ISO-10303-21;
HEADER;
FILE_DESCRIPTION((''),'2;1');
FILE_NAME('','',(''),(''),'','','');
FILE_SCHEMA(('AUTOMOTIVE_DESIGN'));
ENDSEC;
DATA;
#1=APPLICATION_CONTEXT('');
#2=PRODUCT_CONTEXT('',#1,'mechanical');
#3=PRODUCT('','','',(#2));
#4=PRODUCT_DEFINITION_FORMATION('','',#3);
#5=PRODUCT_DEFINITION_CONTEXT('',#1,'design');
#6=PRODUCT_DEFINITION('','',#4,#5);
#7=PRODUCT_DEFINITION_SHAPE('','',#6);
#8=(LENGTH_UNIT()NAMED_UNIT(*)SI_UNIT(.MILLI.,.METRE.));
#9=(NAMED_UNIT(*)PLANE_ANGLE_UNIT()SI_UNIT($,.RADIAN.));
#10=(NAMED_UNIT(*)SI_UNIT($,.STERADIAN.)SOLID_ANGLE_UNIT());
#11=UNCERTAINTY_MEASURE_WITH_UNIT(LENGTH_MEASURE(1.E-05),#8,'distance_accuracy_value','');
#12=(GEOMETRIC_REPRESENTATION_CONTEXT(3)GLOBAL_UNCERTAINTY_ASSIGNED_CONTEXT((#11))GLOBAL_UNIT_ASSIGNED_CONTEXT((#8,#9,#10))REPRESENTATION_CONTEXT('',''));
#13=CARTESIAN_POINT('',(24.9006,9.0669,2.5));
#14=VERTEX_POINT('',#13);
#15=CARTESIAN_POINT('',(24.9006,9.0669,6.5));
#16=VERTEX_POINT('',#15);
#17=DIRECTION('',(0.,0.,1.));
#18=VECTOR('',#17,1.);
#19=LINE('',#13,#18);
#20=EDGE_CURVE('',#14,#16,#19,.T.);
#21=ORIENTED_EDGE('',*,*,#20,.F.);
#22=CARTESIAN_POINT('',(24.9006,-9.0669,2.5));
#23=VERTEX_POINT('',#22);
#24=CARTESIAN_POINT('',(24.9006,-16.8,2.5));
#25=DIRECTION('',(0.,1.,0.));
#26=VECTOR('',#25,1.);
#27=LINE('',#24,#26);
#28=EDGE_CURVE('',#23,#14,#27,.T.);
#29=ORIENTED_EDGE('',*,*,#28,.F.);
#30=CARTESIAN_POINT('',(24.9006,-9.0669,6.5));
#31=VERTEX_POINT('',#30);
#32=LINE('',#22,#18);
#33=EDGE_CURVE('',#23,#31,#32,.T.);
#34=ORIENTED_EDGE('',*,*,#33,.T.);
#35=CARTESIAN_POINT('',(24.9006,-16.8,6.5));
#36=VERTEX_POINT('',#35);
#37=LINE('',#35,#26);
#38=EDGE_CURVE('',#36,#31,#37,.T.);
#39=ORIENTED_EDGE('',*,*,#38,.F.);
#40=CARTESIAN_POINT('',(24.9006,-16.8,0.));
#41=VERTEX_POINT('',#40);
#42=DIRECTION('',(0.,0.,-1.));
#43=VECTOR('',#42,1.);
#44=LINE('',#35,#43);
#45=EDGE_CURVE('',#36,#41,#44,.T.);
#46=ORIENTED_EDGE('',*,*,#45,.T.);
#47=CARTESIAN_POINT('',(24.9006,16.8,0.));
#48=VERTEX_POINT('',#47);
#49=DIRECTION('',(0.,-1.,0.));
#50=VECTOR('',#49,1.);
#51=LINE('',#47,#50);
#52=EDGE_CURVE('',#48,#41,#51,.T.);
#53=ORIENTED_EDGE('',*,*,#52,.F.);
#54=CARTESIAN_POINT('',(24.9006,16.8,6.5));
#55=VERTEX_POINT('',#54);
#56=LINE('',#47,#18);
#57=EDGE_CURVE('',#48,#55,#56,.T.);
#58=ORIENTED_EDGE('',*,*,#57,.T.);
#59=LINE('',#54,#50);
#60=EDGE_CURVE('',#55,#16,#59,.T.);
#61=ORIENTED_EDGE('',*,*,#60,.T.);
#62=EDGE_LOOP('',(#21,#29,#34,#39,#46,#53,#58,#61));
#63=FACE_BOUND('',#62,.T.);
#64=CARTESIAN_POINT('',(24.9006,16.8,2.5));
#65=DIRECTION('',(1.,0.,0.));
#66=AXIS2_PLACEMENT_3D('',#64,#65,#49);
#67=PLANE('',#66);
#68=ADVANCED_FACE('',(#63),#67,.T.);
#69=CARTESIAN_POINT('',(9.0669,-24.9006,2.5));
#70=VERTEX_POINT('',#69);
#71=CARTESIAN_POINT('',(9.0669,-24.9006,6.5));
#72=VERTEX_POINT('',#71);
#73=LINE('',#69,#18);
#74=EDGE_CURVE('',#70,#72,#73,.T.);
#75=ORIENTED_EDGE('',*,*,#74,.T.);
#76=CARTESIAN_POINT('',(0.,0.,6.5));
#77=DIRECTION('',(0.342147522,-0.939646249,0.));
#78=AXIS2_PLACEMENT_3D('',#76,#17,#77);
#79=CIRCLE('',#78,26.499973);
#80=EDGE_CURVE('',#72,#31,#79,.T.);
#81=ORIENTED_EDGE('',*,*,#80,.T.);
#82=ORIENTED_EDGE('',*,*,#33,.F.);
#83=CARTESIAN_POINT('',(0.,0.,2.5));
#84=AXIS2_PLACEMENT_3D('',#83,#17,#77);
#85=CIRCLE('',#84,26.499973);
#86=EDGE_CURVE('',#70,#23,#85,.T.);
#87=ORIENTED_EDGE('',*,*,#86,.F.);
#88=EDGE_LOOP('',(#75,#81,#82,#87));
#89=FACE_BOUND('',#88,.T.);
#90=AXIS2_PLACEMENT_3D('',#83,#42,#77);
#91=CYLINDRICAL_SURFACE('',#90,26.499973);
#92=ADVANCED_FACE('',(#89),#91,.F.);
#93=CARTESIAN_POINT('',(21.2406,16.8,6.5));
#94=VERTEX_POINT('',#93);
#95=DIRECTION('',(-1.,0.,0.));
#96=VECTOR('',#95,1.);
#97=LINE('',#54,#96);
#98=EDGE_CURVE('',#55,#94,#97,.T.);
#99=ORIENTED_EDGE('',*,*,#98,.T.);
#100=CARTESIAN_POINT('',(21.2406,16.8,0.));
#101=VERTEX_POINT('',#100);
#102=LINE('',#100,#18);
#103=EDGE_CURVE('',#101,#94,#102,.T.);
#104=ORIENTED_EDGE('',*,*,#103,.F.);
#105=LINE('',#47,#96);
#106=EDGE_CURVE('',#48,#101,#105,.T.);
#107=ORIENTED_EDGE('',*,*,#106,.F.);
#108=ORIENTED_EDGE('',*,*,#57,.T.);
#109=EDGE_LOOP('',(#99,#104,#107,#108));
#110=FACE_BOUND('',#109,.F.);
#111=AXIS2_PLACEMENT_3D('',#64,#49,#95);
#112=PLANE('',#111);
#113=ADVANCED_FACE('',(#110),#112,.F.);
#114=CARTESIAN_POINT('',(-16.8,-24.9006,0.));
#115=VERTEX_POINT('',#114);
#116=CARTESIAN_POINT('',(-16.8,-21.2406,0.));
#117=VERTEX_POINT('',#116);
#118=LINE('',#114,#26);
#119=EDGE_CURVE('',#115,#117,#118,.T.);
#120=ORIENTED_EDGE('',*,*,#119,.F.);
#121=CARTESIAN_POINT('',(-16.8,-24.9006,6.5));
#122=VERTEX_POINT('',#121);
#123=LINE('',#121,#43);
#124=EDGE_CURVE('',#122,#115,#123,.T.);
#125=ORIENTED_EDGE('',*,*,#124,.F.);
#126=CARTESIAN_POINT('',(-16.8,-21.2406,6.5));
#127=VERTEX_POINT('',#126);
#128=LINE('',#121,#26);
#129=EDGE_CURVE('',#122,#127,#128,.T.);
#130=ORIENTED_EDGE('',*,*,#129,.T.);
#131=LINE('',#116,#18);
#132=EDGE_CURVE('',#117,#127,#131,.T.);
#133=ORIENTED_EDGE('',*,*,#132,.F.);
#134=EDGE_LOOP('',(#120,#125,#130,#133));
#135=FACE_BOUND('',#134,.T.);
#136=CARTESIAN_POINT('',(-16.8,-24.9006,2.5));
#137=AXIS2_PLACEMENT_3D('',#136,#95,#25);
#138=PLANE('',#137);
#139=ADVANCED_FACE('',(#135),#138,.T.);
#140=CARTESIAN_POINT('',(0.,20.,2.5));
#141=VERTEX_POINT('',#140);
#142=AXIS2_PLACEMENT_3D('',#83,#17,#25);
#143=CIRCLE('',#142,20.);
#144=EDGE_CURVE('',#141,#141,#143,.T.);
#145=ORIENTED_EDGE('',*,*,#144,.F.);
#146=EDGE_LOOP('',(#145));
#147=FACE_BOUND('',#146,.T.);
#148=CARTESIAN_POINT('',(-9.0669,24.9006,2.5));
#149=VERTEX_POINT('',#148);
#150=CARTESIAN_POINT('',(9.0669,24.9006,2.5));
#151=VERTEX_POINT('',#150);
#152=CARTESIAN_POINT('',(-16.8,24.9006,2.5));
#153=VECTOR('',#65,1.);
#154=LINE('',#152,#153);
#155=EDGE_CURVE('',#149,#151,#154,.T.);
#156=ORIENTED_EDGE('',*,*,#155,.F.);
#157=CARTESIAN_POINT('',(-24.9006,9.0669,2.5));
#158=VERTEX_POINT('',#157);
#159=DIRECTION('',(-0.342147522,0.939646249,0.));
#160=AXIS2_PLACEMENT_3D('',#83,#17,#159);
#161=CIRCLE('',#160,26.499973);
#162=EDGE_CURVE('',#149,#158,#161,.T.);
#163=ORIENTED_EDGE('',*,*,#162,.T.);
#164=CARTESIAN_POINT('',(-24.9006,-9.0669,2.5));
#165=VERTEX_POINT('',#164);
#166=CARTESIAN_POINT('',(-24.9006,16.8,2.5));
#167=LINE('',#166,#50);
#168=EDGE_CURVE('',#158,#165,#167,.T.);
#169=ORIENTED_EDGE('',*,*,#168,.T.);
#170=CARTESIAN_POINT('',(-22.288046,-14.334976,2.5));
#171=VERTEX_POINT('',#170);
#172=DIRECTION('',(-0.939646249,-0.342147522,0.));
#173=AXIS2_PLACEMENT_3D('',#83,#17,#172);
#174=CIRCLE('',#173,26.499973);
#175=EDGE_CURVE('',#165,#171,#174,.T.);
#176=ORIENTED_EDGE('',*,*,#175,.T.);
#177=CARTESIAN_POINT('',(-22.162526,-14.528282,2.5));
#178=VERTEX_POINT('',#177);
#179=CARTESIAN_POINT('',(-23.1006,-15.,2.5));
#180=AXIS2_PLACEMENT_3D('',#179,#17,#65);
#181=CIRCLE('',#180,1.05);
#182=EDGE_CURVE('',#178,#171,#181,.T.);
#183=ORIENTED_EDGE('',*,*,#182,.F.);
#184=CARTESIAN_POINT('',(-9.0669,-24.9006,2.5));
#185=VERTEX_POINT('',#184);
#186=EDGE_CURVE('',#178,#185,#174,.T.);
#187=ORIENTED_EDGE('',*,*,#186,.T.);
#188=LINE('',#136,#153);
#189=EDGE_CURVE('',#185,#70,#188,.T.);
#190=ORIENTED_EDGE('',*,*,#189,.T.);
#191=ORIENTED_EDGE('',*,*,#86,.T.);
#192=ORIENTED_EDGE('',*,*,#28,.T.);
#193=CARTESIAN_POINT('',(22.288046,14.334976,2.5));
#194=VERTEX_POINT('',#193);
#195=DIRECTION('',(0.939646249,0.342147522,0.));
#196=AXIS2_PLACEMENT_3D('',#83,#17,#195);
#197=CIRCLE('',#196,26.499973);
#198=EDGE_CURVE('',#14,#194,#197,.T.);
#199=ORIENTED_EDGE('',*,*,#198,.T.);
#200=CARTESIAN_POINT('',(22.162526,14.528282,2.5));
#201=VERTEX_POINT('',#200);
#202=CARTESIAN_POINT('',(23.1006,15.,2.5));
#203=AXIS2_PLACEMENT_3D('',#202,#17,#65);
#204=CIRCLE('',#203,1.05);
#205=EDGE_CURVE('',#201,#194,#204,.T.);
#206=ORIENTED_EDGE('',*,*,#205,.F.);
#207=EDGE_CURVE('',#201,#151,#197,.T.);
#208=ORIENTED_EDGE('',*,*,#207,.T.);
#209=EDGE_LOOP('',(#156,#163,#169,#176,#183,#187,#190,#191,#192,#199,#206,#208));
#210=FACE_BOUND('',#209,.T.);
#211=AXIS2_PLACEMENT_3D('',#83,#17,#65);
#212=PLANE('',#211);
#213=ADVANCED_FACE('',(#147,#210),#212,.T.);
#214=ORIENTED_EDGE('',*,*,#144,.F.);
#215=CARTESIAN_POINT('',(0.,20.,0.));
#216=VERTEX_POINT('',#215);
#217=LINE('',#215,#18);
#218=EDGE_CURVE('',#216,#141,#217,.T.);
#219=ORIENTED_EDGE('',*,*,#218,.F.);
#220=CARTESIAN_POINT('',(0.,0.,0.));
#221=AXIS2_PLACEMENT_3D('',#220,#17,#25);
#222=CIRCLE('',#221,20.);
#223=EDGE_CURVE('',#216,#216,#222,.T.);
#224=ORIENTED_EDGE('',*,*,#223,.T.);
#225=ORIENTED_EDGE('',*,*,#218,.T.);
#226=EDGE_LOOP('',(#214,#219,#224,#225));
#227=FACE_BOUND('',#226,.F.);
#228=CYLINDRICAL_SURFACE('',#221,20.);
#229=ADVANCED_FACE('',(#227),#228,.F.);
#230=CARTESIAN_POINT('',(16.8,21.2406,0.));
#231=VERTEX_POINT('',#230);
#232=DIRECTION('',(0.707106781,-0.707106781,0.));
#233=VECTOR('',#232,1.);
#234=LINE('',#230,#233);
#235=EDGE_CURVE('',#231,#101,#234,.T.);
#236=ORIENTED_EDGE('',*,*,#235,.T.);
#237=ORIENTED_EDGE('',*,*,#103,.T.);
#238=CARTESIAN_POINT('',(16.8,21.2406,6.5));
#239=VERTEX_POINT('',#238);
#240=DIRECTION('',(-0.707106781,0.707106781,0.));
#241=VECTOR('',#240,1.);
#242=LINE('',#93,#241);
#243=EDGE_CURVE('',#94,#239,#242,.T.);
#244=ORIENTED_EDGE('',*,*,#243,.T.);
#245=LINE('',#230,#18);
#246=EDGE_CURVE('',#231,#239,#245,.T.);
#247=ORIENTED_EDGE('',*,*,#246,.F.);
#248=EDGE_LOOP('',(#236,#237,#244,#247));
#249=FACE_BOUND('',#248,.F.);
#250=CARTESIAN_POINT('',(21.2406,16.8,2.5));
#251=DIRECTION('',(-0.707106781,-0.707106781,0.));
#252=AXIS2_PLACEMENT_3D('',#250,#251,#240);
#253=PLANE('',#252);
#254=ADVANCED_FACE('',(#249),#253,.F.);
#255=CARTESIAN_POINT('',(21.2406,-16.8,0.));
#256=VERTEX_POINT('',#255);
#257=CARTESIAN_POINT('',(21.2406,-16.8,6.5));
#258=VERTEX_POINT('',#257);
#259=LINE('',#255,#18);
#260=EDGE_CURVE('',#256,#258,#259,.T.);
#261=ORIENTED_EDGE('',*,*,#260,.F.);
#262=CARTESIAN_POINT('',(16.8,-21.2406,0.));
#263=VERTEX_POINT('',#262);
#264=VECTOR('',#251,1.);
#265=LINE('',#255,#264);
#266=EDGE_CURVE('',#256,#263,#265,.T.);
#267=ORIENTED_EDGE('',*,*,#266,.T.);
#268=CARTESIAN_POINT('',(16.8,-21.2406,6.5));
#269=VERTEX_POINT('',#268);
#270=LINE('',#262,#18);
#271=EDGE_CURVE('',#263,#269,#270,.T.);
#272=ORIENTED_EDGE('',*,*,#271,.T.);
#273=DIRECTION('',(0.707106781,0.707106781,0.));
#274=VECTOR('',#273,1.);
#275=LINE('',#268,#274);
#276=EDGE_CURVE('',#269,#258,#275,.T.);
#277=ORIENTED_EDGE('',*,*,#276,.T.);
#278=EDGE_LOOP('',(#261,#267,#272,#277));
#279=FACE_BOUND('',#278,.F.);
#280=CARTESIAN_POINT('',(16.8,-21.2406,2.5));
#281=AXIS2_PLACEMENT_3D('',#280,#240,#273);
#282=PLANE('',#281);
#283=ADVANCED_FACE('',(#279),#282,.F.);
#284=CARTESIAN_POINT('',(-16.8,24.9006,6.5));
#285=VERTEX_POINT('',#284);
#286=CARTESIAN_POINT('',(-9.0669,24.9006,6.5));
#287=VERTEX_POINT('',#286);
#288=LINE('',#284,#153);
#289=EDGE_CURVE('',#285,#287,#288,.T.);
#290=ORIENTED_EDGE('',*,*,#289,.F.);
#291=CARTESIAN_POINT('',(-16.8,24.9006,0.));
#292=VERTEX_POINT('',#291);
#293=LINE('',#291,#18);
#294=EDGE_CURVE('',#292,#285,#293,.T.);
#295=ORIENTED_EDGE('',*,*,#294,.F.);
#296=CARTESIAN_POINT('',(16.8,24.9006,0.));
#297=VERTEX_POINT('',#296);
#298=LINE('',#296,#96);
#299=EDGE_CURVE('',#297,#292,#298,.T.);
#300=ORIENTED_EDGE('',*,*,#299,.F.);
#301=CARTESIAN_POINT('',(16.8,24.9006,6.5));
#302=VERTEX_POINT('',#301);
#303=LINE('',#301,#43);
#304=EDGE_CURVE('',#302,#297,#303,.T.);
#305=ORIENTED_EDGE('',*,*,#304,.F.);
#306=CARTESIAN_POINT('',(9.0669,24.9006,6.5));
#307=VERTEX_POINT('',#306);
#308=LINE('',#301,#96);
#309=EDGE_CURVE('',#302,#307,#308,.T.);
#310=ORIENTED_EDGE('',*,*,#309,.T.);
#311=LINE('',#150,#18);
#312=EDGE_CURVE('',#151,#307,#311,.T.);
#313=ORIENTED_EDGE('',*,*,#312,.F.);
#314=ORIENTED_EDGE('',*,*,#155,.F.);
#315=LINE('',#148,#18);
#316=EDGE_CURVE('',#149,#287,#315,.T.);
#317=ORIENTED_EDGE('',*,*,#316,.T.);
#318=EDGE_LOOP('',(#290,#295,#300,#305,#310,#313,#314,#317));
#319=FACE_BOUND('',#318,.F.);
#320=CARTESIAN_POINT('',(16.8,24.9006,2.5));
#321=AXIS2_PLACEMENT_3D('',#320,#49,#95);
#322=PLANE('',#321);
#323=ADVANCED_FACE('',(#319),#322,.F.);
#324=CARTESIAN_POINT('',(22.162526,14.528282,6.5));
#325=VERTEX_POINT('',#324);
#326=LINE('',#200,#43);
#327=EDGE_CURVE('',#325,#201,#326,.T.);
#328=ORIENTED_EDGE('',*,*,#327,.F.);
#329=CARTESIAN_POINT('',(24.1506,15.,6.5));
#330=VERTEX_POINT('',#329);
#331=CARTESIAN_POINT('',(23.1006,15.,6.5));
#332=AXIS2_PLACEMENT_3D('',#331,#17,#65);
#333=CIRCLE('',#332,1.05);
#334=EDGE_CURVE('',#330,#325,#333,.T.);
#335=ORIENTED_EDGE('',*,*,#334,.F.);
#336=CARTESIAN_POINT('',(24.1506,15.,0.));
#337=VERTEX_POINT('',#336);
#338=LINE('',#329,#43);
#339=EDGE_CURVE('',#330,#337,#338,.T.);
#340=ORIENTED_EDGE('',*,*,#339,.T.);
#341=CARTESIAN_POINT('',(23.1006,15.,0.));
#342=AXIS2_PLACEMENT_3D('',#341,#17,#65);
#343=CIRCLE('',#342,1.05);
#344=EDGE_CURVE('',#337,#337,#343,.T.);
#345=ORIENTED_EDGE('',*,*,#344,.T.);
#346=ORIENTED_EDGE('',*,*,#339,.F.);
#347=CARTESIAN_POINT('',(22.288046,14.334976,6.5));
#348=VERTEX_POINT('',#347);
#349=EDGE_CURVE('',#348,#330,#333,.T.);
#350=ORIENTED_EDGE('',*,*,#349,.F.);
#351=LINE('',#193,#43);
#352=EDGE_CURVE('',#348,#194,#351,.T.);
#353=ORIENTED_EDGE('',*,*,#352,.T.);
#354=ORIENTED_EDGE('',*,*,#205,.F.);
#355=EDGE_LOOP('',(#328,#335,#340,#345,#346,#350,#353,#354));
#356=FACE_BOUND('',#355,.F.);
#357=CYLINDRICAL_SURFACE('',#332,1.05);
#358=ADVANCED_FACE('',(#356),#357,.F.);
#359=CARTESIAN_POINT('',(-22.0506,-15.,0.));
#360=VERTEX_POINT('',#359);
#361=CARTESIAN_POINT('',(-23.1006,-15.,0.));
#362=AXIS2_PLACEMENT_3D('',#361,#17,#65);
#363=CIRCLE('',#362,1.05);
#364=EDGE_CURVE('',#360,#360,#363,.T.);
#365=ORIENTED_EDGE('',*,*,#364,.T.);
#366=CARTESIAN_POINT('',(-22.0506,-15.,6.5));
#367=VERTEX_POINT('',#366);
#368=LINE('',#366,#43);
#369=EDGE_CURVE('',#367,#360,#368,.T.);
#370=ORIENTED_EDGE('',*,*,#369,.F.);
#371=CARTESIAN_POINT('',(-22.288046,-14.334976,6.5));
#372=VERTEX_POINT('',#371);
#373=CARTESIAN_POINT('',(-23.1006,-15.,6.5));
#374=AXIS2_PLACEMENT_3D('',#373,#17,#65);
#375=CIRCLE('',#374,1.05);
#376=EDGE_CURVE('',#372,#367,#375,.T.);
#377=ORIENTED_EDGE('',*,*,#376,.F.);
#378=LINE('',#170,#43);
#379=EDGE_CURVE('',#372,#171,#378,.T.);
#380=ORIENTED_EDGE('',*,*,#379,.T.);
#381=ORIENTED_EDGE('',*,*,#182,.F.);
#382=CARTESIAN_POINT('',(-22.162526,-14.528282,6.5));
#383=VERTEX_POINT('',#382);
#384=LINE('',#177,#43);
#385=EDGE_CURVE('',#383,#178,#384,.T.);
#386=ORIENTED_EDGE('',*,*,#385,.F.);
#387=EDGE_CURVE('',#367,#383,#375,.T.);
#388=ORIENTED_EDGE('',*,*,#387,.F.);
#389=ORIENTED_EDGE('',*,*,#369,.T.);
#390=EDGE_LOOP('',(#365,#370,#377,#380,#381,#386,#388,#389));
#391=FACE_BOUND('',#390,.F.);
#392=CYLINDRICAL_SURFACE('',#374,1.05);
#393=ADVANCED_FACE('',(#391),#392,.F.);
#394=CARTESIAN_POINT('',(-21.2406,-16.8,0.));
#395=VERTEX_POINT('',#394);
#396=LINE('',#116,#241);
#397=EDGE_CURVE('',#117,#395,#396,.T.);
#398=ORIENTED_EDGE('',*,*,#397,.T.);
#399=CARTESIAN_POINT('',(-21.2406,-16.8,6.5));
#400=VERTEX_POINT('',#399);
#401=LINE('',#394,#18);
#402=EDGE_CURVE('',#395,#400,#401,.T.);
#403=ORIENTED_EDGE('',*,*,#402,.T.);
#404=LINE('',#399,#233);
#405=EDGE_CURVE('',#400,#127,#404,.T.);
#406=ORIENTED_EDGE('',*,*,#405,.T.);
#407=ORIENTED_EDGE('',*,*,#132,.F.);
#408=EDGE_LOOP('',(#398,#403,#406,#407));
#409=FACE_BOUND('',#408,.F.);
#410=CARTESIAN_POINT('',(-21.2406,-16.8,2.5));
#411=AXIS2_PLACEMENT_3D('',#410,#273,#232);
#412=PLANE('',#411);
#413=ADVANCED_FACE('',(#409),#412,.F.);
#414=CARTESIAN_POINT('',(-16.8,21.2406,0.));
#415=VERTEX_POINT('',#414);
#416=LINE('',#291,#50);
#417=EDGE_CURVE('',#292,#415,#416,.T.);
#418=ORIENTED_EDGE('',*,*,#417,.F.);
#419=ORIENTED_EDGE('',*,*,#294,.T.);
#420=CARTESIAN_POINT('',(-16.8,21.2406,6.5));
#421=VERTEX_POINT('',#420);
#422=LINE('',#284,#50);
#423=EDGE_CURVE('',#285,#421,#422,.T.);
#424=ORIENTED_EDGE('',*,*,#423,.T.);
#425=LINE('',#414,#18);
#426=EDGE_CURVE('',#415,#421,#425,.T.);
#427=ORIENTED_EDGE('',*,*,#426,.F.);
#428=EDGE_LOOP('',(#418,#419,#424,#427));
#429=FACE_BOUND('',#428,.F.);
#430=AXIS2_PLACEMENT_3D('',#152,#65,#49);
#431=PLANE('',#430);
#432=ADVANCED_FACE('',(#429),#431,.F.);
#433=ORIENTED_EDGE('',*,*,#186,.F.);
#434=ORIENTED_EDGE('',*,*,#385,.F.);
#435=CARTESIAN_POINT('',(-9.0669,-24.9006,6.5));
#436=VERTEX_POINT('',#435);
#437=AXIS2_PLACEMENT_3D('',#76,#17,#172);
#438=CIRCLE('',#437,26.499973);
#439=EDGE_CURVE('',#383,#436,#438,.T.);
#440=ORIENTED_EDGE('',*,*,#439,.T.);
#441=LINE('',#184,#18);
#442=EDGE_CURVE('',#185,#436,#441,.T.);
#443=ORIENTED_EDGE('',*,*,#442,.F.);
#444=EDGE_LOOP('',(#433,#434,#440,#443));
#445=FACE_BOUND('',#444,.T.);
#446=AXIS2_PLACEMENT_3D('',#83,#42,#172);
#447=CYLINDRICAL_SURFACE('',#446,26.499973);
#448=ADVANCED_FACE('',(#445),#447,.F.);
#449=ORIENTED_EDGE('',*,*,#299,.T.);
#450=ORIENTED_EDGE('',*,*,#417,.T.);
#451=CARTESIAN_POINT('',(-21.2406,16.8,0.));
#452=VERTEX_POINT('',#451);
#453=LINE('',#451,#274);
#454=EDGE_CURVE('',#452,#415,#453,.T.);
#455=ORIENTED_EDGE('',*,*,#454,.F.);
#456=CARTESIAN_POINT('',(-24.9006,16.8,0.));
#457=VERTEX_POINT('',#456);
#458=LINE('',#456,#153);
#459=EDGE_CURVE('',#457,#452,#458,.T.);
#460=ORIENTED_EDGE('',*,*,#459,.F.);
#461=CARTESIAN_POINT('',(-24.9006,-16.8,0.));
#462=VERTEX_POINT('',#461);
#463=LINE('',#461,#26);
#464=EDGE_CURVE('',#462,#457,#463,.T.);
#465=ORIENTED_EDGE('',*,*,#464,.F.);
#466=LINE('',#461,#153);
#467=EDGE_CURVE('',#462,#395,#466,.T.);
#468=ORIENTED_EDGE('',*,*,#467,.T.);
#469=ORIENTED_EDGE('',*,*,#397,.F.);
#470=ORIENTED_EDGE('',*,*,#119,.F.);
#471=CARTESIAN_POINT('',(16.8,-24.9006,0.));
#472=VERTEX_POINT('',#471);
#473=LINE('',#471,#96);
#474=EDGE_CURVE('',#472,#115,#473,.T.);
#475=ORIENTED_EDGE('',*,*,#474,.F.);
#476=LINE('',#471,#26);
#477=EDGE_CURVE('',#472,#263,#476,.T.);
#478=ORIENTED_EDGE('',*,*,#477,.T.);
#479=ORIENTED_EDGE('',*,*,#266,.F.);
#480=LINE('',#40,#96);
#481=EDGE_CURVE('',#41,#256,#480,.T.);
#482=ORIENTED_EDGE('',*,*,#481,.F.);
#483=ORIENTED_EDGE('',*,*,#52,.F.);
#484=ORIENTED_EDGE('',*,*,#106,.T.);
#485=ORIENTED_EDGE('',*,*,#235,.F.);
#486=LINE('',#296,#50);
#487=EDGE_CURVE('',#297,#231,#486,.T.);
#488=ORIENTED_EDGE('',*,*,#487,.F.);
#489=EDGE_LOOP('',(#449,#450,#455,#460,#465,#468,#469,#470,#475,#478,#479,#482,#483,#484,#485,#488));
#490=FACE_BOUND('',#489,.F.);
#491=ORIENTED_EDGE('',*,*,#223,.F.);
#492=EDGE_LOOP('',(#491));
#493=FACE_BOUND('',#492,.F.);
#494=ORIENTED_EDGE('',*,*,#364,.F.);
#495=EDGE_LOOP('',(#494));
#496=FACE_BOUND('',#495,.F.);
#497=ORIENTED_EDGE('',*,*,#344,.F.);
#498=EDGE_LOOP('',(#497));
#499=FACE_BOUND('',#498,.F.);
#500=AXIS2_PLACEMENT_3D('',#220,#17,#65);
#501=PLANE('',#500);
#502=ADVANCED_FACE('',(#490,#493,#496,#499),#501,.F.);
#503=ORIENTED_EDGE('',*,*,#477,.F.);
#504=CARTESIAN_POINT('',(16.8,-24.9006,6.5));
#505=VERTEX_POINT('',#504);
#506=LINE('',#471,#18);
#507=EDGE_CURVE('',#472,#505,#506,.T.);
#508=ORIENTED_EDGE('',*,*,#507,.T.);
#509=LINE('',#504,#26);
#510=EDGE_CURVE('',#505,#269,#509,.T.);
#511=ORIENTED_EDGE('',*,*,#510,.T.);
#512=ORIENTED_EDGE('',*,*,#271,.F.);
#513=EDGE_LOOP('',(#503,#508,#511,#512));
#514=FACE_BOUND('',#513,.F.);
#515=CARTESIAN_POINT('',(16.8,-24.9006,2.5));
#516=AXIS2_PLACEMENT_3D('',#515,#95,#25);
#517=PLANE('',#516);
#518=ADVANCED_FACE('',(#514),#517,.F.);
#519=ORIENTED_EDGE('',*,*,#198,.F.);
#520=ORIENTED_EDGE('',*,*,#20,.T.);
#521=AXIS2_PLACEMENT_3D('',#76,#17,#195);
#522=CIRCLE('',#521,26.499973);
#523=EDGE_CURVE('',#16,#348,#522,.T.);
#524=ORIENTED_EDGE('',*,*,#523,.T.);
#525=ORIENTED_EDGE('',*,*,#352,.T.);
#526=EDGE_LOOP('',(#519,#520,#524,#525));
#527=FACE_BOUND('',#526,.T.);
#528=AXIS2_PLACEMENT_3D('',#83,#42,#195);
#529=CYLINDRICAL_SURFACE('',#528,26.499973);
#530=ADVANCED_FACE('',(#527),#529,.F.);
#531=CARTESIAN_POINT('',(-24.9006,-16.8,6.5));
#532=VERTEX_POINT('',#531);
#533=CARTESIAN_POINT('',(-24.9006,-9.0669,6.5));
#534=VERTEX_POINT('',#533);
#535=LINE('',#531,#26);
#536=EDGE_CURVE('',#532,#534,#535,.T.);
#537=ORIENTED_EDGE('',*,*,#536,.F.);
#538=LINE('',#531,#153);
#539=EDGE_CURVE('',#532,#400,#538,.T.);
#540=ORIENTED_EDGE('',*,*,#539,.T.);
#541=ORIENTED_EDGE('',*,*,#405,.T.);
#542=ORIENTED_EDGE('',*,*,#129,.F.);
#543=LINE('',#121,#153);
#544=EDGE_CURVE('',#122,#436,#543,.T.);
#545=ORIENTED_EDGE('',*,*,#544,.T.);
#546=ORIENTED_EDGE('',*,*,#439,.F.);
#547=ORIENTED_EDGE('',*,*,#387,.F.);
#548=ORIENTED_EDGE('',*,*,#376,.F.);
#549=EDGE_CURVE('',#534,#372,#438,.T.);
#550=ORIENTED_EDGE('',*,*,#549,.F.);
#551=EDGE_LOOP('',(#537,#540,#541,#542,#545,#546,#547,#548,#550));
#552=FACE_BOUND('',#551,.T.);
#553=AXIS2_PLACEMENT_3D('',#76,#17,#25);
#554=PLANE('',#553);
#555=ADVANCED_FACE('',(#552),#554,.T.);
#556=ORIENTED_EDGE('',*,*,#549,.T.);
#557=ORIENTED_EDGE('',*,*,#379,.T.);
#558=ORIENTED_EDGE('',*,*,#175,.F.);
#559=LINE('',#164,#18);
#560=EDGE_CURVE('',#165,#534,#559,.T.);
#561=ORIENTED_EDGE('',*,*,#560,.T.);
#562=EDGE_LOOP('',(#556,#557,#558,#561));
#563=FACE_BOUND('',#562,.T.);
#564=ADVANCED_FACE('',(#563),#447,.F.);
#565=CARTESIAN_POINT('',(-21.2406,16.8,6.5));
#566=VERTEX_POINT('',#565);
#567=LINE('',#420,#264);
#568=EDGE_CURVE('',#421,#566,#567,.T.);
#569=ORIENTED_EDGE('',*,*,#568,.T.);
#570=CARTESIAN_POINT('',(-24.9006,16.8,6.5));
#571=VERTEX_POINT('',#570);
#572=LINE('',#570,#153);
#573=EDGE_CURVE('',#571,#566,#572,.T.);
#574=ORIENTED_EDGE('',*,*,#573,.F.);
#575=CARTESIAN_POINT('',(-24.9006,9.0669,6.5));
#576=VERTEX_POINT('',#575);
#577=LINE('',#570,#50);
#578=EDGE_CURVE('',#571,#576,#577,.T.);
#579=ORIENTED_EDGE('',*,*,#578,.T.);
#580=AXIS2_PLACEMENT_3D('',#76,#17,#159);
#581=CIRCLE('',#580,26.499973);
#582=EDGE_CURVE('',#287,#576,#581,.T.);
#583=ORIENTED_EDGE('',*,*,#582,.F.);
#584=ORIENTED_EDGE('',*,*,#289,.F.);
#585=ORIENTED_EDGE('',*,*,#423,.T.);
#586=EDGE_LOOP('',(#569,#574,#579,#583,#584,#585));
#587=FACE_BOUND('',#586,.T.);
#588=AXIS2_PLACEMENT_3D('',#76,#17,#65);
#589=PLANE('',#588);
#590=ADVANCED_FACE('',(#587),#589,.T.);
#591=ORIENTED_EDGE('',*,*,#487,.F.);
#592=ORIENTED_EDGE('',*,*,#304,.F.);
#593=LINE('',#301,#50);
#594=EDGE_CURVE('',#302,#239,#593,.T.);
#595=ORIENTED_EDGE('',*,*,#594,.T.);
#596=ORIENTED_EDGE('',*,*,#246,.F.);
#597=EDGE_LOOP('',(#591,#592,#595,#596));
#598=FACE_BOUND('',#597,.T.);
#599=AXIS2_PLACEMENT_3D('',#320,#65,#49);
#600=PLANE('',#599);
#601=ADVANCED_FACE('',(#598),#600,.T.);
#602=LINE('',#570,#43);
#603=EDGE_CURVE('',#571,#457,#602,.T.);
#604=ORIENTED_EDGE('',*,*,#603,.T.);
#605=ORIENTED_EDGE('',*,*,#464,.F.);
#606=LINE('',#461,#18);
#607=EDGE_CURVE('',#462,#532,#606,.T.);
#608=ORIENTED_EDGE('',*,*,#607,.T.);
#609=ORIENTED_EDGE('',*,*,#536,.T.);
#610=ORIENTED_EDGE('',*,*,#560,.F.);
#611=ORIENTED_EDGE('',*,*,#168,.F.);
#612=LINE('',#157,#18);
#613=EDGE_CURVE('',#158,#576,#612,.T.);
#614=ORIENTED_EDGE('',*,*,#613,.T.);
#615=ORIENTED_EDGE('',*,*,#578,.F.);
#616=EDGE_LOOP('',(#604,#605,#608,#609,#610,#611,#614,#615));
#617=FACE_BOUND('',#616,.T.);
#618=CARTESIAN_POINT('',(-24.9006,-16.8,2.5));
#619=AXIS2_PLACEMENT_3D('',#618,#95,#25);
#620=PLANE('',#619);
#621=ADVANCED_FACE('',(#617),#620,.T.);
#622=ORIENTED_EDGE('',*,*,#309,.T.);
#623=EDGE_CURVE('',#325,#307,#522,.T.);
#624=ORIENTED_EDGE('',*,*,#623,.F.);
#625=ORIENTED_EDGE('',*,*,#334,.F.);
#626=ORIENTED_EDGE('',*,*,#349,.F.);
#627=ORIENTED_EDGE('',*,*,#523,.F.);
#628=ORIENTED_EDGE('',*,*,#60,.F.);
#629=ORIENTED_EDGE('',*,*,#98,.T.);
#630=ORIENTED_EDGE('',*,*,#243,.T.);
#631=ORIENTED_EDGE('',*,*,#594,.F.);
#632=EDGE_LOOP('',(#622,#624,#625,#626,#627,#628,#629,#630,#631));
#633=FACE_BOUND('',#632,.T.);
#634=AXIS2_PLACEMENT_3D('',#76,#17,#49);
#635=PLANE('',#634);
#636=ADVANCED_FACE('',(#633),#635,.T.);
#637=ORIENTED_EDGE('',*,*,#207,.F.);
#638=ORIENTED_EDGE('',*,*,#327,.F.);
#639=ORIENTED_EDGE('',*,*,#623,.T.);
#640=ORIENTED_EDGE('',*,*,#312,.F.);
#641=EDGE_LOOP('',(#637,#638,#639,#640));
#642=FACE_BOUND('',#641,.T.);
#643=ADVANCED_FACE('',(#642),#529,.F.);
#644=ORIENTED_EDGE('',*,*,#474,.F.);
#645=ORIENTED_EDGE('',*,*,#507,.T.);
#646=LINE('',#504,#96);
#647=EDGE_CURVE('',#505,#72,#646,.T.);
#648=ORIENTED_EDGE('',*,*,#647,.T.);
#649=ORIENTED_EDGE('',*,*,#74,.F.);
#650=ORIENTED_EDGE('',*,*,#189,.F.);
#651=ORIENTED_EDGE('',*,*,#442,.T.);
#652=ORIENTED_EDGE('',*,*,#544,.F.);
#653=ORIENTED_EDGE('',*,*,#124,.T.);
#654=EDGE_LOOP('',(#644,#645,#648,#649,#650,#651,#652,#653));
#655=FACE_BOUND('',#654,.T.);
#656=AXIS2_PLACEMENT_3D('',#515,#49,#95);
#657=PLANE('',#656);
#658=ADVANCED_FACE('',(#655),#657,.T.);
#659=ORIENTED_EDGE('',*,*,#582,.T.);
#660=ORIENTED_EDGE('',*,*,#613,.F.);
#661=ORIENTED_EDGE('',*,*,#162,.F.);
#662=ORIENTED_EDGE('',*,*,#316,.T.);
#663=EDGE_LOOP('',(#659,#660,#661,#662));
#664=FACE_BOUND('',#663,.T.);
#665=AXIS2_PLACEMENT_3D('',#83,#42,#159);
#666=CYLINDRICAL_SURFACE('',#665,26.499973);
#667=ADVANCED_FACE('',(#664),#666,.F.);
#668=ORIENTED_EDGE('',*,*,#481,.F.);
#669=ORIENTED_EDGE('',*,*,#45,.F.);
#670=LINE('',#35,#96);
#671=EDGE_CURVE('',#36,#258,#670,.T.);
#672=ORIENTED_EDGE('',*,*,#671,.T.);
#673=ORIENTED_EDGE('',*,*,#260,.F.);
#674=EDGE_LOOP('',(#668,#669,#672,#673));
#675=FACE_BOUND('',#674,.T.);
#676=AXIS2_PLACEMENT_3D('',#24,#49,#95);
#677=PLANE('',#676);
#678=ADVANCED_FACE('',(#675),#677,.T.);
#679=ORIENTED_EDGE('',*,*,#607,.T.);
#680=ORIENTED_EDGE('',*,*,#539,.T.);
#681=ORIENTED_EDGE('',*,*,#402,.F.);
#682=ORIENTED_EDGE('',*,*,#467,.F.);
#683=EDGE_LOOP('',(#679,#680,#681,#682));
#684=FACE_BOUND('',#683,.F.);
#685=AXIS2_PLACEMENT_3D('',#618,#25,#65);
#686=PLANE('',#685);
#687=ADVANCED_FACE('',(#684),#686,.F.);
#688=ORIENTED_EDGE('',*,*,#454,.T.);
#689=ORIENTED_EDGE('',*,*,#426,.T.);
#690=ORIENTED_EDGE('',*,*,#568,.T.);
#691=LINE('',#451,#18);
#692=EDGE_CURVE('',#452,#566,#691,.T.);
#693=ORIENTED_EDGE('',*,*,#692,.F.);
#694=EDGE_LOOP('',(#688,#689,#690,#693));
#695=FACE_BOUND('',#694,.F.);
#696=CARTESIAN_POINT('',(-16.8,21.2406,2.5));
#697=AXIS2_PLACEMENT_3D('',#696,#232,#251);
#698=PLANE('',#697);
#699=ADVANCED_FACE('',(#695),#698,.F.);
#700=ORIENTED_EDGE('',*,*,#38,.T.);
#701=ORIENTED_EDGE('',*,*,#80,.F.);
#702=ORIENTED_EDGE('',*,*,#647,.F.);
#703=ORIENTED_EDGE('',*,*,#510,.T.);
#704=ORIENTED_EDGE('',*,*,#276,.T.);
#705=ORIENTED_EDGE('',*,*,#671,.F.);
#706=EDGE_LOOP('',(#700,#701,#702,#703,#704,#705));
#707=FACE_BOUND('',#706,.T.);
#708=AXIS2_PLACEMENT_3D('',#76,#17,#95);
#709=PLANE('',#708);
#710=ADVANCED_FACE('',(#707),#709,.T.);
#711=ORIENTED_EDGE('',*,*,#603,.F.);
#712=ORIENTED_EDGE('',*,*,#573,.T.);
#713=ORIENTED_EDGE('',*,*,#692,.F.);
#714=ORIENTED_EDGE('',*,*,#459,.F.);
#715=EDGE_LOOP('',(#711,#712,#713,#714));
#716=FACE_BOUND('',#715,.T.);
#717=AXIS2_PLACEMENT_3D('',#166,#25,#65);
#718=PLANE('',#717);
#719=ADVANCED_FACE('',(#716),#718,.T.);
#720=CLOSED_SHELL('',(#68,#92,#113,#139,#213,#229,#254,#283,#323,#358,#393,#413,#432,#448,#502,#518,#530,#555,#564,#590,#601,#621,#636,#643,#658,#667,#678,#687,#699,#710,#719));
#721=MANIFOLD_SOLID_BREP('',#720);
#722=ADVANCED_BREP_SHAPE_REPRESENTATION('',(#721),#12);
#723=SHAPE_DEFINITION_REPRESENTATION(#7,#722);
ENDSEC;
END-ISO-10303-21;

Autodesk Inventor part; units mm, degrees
ref_plane "YZ Plane" through (0, 0, 0) normal (1, 0, 0) x (0, 1, 0)
ref_plane "XZ Plane" through (0, 0, 0) normal (0, 1, 0) x (-1, 0, 0)
ref_plane "XY Plane" through (0, 0, 0) normal (0, 0, 1) x (1, 0, 0)
sketch "Sketch1" plane through (0, 0, 0) normal (0, 0, 1) x (1, 0, 0)
  line L0 (-34.8609, 0) -> (34.8609, 0) construction
  line L1 (0, -34.8609) -> (0, 34.8609) construction
  line L2 (0, 0) -> (11.6542, 11.6542) construction
  line L3 (0, 0) -> (16.4815, 0) construction
  line L4 (0, 24.9006) -> (16.8, 24.9006)
  line L5 (16.8, 24.9006) -> (16.8, 21.2406)
  line L6 (16.8, 21.2406) -> (19.0203, 19.0203)
  line L7 (24.9006, 0) -> (24.9006, 16.8)
  line L8 (24.9006, 16.8) -> (21.2406, 16.8)
  line L9 (21.2406, 16.8) -> (19.0203, 19.0203)
  line L10 (0, 0) -> (-11.6542, 11.6542) construction
  line L11 (0, 0) -> (-16.4815, 0) construction
  line L12 (0, 24.9006) -> (-16.8, 24.9006)
  line L13 (-16.8, 24.9006) -> (-16.8, 21.2406)
  line L14 (-16.8, 21.2406) -> (-19.0203, 19.0203)
  line L15 (-24.9006, 0) -> (-24.9006, 16.8)
  line L16 (-24.9006, 16.8) -> (-21.2406, 16.8)
  line L17 (-21.2406, 16.8) -> (-19.0203, 19.0203)
  line L18 (0, 0) -> (11.6542, -11.6542) construction
  line L19 (0, -24.9006) -> (16.8, -24.9006)
  line L20 (16.8, -24.9006) -> (16.8, -21.2406)
  line L21 (16.8, -21.2406) -> (19.0203, -19.0203)
  line L22 (24.9006, 0) -> (24.9006, -16.8)
  line L23 (24.9006, -16.8) -> (21.2406, -16.8)
  line L24 (21.2406, -16.8) -> (19.0203, -19.0203)
  line L25 (0, 0) -> (-11.6542, -11.6542) construction
  line L26 (0, -24.9006) -> (-16.8, -24.9006)
  line L27 (-16.8, -24.9006) -> (-16.8, -21.2406)
  line L28 (-16.8, -21.2406) -> (-19.0203, -19.0203)
  line L29 (-24.9006, 0) -> (-24.9006, -16.8)
  line L30 (-24.9006, -16.8) -> (-21.2406, -16.8)
  line L31 (-21.2406, -16.8) -> (-19.0203, -19.0203)
  dimension "d0" = 45
  dimension "d1" = 3.14
  dimension "d2" = 3.66
  dimension "d3" = 16.8
extrude "Extrusion1" add sketch "Sketch1" along normal blind 2.5
hole "Hole1" at (0, 0, 0) direction (0, 0, 1) diameter 40 end through all
sketch "Sketch5" plane through (0, 0, 2.5) normal (0, 0, 1) x (1, 0, 0)
  circle A0 centre (-22.1796, -5.0624) radius 1.25 construction
  circle A1 centre (-17.7867, 14.1844) radius 1.25 construction
  circle A2 centre (0, 22.75) radius 1.25 construction
  arc A3 (5.9445, 23.5204) -> (2.0147, 24.1761) centre (3.9503, 23.6727) ccw construction
  line L0 (2.0147, 24.1761) -> (2, 24) construction
  arc A4 (2, 24) -> (1.9973, 24.1039) centre (0, 24) ccw construction
  arc A5 (1.9973, 24.1039) -> (1.9775, 24.0019) centre (3.9503, 23.6727) ccw construction
  line L1 (1.9775, 24.0019) -> (1.9921, 24.178) construction
  arc A6 (1.9921, 24.178) -> (-1.9921, 24.178) centre (0, 24) ccw construction
  line L2 (-1.9921, 24.178) -> (-1.9775, 24.0019) construction
  arc A7 (-1.9775, 24.0019) -> (-1.9973, 24.1039) centre (-3.9503, 23.6727) ccw construction
  arc A8 (-1.9973, 24.1039) -> (-2, 24) centre (0, 24) ccw construction
  line L3 (-2, 24) -> (-2.0147, 24.1761) construction
  arc A9 (-2.0147, 24.1761) -> (-5.9445, 23.5204) centre (-3.9503, 23.6727) ccw construction
  line L4 (-5.9445, 23.5204) -> (-5.9012, 23.349) construction
  arc A10 (-5.9012, 23.349) -> (-5.9374, 23.4464) centre (-7.7928, 22.6996) ccw construction
  arc A11 (-5.9374, 23.4464) -> (-5.923, 23.3435) centre (-3.9503, 23.6727) ccw construction
  line L5 (-5.923, 23.3435) -> (-5.9665, 23.5148) construction
  arc A12 (-5.9665, 23.5148) -> (-9.7347, 22.2212) centre (-7.7928, 22.6996) ccw construction
  line L6 (-9.7347, 22.2212) -> (-9.6638, 22.0593) construction
  arc A13 (-9.6638, 22.0593) -> (-9.7156, 22.1493) centre (-11.4227, 21.1074) ccw construction
  arc A14 (-9.7156, 22.1493) -> (-9.6844, 22.0502) centre (-7.7928, 22.6996) ccw construction
  line L7 (-9.6844, 22.0502) -> (-9.7555, 22.212) construction
  arc A15 (-9.7555, 22.212) -> (-13.2594, 20.3158) centre (-11.4227, 21.1074) ccw construction
  line L8 (-13.2594, 20.3158) -> (-13.1628, 20.1678) construction
  arc A16 (-13.1628, 20.1678) -> (-13.2287, 20.2481) centre (-14.7411, 18.9394) ccw construction
  arc A17 (-13.2287, 20.2481) -> (-13.1817, 20.1555) centre (-11.4227, 21.1074) ccw construction
  line L9 (-13.1817, 20.1555) -> (-13.2784, 20.3034) construction
  arc A18 (-13.2784, 20.3034) -> (-16.4225, 17.8563) centre (-14.7411, 18.9394) ccw construction
  line L10 (-16.4225, 17.8563) -> (-16.3028, 17.7262) construction
  arc A19 (-16.3028, 17.7262) -> (-16.381, 17.7946) centre (-17.6574, 16.2548) ccw construction
  arc A20 (-16.381, 17.7946) -> (-16.3194, 17.7109) centre (-14.7411, 18.9394) ccw construction
  line L11 (-16.3194, 17.7109) -> (-16.4392, 17.8409) construction
  arc A21 (-16.4392, 17.8409) -> (-19.1375, 14.9097) centre (-17.6574, 16.2548) ccw construction
  line L12 (-19.1375, 14.9097) -> (-18.9981, 14.8011) construction
  arc A22 (-18.9981, 14.8011) -> (-19.0865, 14.8556) centre (-20.092, 13.1268) ccw construction
  arc A23 (-19.0865, 14.8556) -> (-19.0119, 14.7833) centre (-17.6574, 16.2548) ccw construction
  line L13 (-19.0119, 14.7833) -> (-19.1515, 14.8918) construction
  arc A24 (-19.1515, 14.8918) -> (-21.3306, 11.5564) centre (-20.092, 13.1268) ccw construction
  line L14 (-21.3306, 11.5564) -> (-21.1752, 11.4722) construction
  arc A25 (-21.1752, 11.4722) -> (-21.2714, 11.5115) centre (-21.9786, 9.6407) ccw construction
  arc A26 (-21.2714, 11.5115) -> (-21.1859, 11.4524) centre (-20.092, 13.1268) ccw construction
  line L15 (-21.1859, 11.4524) -> (-21.3414, 11.5365) construction
  arc A27 (-21.3414, 11.5365) -> (-22.9418, 7.8879) centre (-21.9786, 9.6407) ccw construction
  line L16 (-22.9418, 7.8879) -> (-22.7746, 7.8305) construction
  arc A28 (-22.7746, 7.8305) -> (-22.876, 7.8533) centre (-23.2656, 5.8917) ccw construction
  arc A29 (-22.876, 7.8533) -> (-22.782, 7.8091) centre (-21.9786, 9.6407) ccw construction
  line L17 (-22.782, 7.8091) -> (-22.9492, 7.8665) construction
  arc A30 (-22.9492, 7.8665) -> (-23.9272, 4.0042) centre (-23.2656, 5.8917) ccw construction
  line L18 (-23.9272, 4.0042) -> (-23.7529, 3.9751) construction
  arc A31 (-23.7529, 3.9751) -> (-23.8566, 3.981) centre (-23.918, 1.9819) ccw construction
  arc A32 (-23.8566, 3.981) -> (-23.7566, 3.9529) centre (-23.2656, 5.8917) ccw construction
  line L19 (-23.7566, 3.9529) -> (-23.9309, 3.9819) construction
  arc A33 (-23.9309, 3.9819) -> (-24.2599, 0.0113) centre (-23.918, 1.9819) ccw construction
  line L20 (-24.2599, 0.0113) -> (-24.0832, 0.0113) construction
  arc A34 (-24.0832, 0.0113) -> (-24.1865, 0) centre (-23.918, -1.9819) ccw construction
  arc A35 (-24.1865, 0) -> (-24.0832, -0.0113) centre (-23.918, 1.9819) ccw construction
  line L21 (-24.0832, -0.0113) -> (-24.2599, -0.0113) construction
  arc A36 (-24.2599, -0.0113) -> (-23.9309, -3.9819) centre (-23.918, -1.9819) ccw construction
  line L22 (-23.9309, -3.9819) -> (-23.7566, -3.9529) construction
  arc A37 (-23.7566, -3.9529) -> (-23.8566, -3.981) centre (-23.2656, -5.8917) ccw construction
  arc A38 (-23.8566, -3.981) -> (-23.7529, -3.9751) centre (-23.918, -1.9819) ccw construction
  line L23 (-23.7529, -3.9751) -> (-23.9272, -4.0042) construction
  arc A39 (-23.9272, -4.0042) -> (-22.9492, -7.8665) centre (-23.2656, -5.8917) ccw construction
  line L24 (-22.9492, -7.8665) -> (-22.782, -7.8091) construction
  arc A40 (-22.782, -7.8091) -> (-22.876, -7.8533) centre (-21.9786, -9.6407) ccw construction
  arc A41 (-22.876, -7.8533) -> (-22.7746, -7.8305) centre (-23.2656, -5.8917) ccw construction
  line L25 (-22.7746, -7.8305) -> (-22.9418, -7.8879) construction
  arc A42 (-22.9418, -7.8879) -> (-21.3414, -11.5365) centre (-21.9786, -9.6407) ccw construction
  line L26 (-21.3414, -11.5365) -> (-21.1859, -11.4524) construction
  arc A43 (-21.1859, -11.4524) -> (-21.2714, -11.5115) centre (-20.092, -13.1268) ccw construction
  arc A44 (-21.2714, -11.5115) -> (-21.1752, -11.4722) centre (-21.9786, -9.6407) ccw construction
  line L27 (-21.1752, -11.4722) -> (-21.3306, -11.5564) construction
  arc A45 (-21.3306, -11.5564) -> (-19.1515, -14.8918) centre (-20.092, -13.1268) ccw construction
  line L28 (-19.1515, -14.8918) -> (-19.0119, -14.7833) construction
  arc A46 (-19.0119, -14.7833) -> (-19.0865, -14.8556) centre (-17.6574, -16.2548) ccw construction
  arc A47 (-19.0865, -14.8556) -> (-18.9981, -14.8011) centre (-20.092, -13.1268) ccw construction
  line L29 (-18.9981, -14.8011) -> (-19.1375, -14.9097) construction
  arc A48 (-19.1375, -14.9097) -> (-16.4392, -17.8409) centre (-17.6574, -16.2548) ccw construction
  line L30 (-16.4392, -17.8409) -> (-16.3194, -17.7109) construction
  arc A49 (-16.3194, -17.7109) -> (-16.381, -17.7946) centre (-14.7411, -18.9394) ccw construction
  arc A50 (-16.381, -17.7946) -> (-16.3028, -17.7262) centre (-17.6574, -16.2548) ccw construction
  line L31 (-16.3028, -17.7262) -> (-16.4225, -17.8563) construction
  arc A51 (-16.4225, -17.8563) -> (-13.2784, -20.3034) centre (-14.7411, -18.9394) ccw construction
  line L32 (-13.2784, -20.3034) -> (-13.1817, -20.1555) construction
  arc A52 (-13.1817, -20.1555) -> (-13.2287, -20.2481) centre (-11.4227, -21.1074) ccw construction
  arc A53 (-13.2287, -20.2481) -> (-13.1628, -20.1678) centre (-14.7411, -18.9394) ccw construction
  line L33 (-13.1628, -20.1678) -> (-13.2594, -20.3158) construction
  arc A54 (-13.2594, -20.3158) -> (-9.7555, -22.212) centre (-11.4227, -21.1074) ccw construction
  line L34 (-9.7555, -22.212) -> (-9.6844, -22.0502) construction
  arc A55 (-9.6844, -22.0502) -> (-9.7156, -22.1493) centre (-7.7928, -22.6996) ccw construction
  arc A56 (-9.7156, -22.1493) -> (-9.6638, -22.0593) centre (-11.4227, -21.1074) ccw construction
  line L35 (-9.6638, -22.0593) -> (-9.7347, -22.2212) construction
  arc A57 (-9.7347, -22.2212) -> (-5.9665, -23.5148) centre (-7.7928, -22.6996) ccw construction
  line L36 (-5.9665, -23.5148) -> (-5.923, -23.3435) construction
  arc A58 (-5.923, -23.3435) -> (-5.9374, -23.4464) centre (-3.9503, -23.6727) ccw construction
  arc A59 (-5.9374, -23.4464) -> (-5.9012, -23.349) centre (-7.7928, -22.6996) ccw construction
  line L37 (-5.9012, -23.349) -> (-5.9445, -23.5204) construction
  arc A60 (-5.9445, -23.5204) -> (-2.0147, -24.1761) centre (-3.9503, -23.6727) ccw construction
  line L38 (-2.0147, -24.1761) -> (-2, -24) construction
  arc A61 (-2, -24) -> (-1.9973, -24.1039) centre (0, -24) ccw construction
  arc A62 (-1.9973, -24.1039) -> (-1.9775, -24.0019) centre (-3.9503, -23.6727) ccw construction
  line L39 (-1.9775, -24.0019) -> (-1.9921, -24.178) construction
  arc A63 (-1.9921, -24.178) -> (1.9921, -24.178) centre (0, -24) ccw construction
  line L40 (1.9921, -24.178) -> (1.9775, -24.0019) construction
  arc A64 (1.9775, -24.0019) -> (1.9973, -24.1039) centre (3.9503, -23.6727) ccw construction
  arc A65 (1.9973, -24.1039) -> (2, -24) centre (0, -24) ccw construction
  line L41 (2, -24) -> (2.0147, -24.1761) construction
  arc A66 (2.0147, -24.1761) -> (5.9445, -23.5204) centre (3.9503, -23.6727) ccw construction
  line L42 (5.9445, -23.5204) -> (5.9012, -23.349) construction
  arc A67 (5.9012, -23.349) -> (5.9374, -23.4464) centre (7.7928, -22.6996) ccw construction
  arc A68 (5.9374, -23.4464) -> (5.923, -23.3435) centre (3.9503, -23.6727) ccw construction
  line L43 (5.923, -23.3435) -> (5.9665, -23.5148) construction
  arc A69 (5.9665, -23.5148) -> (9.7347, -22.2212) centre (7.7928, -22.6996) ccw construction
  line L44 (9.7347, -22.2212) -> (9.6638, -22.0593) construction
  arc A70 (9.6638, -22.0593) -> (9.7156, -22.1493) centre (11.4227, -21.1074) ccw construction
  arc A71 (9.7156, -22.1493) -> (9.6844, -22.0502) centre (7.7928, -22.6996) ccw construction
  line L45 (9.6844, -22.0502) -> (9.7555, -22.212) construction
  arc A72 (9.7555, -22.212) -> (13.2594, -20.3158) centre (11.4227, -21.1074) ccw construction
  line L46 (13.2594, -20.3158) -> (13.1628, -20.1678) construction
  arc A73 (13.1628, -20.1678) -> (13.2287, -20.2481) centre (14.7411, -18.9394) ccw construction
  arc A74 (13.2287, -20.2481) -> (13.1817, -20.1555) centre (11.4227, -21.1074) ccw construction
  line L47 (13.1817, -20.1555) -> (13.2784, -20.3034) construction
  arc A75 (13.2784, -20.3034) -> (16.4225, -17.8563) centre (14.7411, -18.9394) ccw construction
  line L48 (16.4225, -17.8563) -> (16.3028, -17.7262) construction
  arc A76 (16.3028, -17.7262) -> (16.381, -17.7946) centre (17.6574, -16.2548) ccw construction
  arc A77 (16.381, -17.7946) -> (16.3194, -17.7109) centre (14.7411, -18.9394) ccw construction
  line L49 (16.3194, -17.7109) -> (16.4392, -17.8409) construction
  arc A78 (16.4392, -17.8409) -> (19.1375, -14.9097) centre (17.6574, -16.2548) ccw construction
  line L50 (19.1375, -14.9097) -> (18.9981, -14.8011) construction
  arc A79 (18.9981, -14.8011) -> (19.0865, -14.8556) centre (20.092, -13.1268) ccw construction
  arc A80 (19.0865, -14.8556) -> (19.0119, -14.7833) centre (17.6574, -16.2548) ccw construction
  line L51 (19.0119, -14.7833) -> (19.1515, -14.8918) construction
  arc A81 (19.1515, -14.8918) -> (21.3306, -11.5564) centre (20.092, -13.1268) ccw construction
  line L52 (21.3306, -11.5564) -> (21.1752, -11.4722) construction
  arc A82 (21.1752, -11.4722) -> (21.2714, -11.5115) centre (21.9786, -9.6407) ccw construction
  arc A83 (21.2714, -11.5115) -> (21.1859, -11.4524) centre (20.092, -13.1268) ccw construction
  line L53 (21.1859, -11.4524) -> (21.3414, -11.5365) construction
  arc A84 (21.3414, -11.5365) -> (22.9418, -7.8879) centre (21.9786, -9.6407) ccw construction
  line L54 (22.9418, -7.8879) -> (22.7746, -7.8305) construction
  arc A85 (22.7746, -7.8305) -> (22.876, -7.8533) centre (23.2656, -5.8917) ccw construction
  arc A86 (22.876, -7.8533) -> (22.782, -7.8091) centre (21.9786, -9.6407) ccw construction
  line L55 (22.782, -7.8091) -> (22.9492, -7.8665) construction
  arc A87 (22.9492, -7.8665) -> (23.9272, -4.0042) centre (23.2656, -5.8917) ccw construction
  line L56 (23.9272, -4.0042) -> (23.7529, -3.9751) construction
  arc A88 (23.7529, -3.9751) -> (23.8566, -3.981) centre (23.918, -1.9819) ccw construction
  arc A89 (23.8566, -3.981) -> (23.7566, -3.9529) centre (23.2656, -5.8917) ccw construction
  line L57 (23.7566, -3.9529) -> (23.9309, -3.9819) construction
  arc A90 (23.9309, -3.9819) -> (24.2599, -0.0113) centre (23.918, -1.9819) ccw construction
  line L58 (24.2599, -0.0113) -> (24.0832, -0.0113) construction
  arc A91 (24.0832, -0.0113) -> (24.1865, 0) centre (23.918, 1.9819) ccw construction
  arc A92 (24.1865, 0) -> (24.0832, 0.0113) centre (23.918, -1.9819) ccw construction
  line L59 (24.0832, 0.0113) -> (24.2599, 0.0113) construction
  arc A93 (24.2599, 0.0113) -> (23.9309, 3.9819) centre (23.918, 1.9819) ccw construction
  line L60 (23.9309, 3.9819) -> (23.7566, 3.9529) construction
  arc A94 (23.7566, 3.9529) -> (23.8566, 3.981) centre (23.2656, 5.8917) ccw construction
  arc A95 (23.8566, 3.981) -> (23.7529, 3.9751) centre (23.918, 1.9819) ccw construction
  line L61 (23.7529, 3.9751) -> (23.9272, 4.0042) construction
  arc A96 (23.9272, 4.0042) -> (22.9492, 7.8665) centre (23.2656, 5.8917) ccw construction
  line L62 (22.9492, 7.8665) -> (22.782, 7.8091) construction
  arc A97 (22.782, 7.8091) -> (22.876, 7.8533) centre (21.9786, 9.6407) ccw construction
  arc A98 (22.876, 7.8533) -> (22.7746, 7.8305) centre (23.2656, 5.8917) ccw construction
  line L63 (22.7746, 7.8305) -> (22.9418, 7.8879) construction
  arc A99 (22.9418, 7.8879) -> (21.3414, 11.5365) centre (21.9786, 9.6407) ccw construction
  line L64 (21.3414, 11.5365) -> (21.1859, 11.4524) construction
  arc A100 (21.1859, 11.4524) -> (21.2714, 11.5115) centre (20.092, 13.1268) ccw construction
  arc A101 (21.2714, 11.5115) -> (21.1752, 11.4722) centre (21.9786, 9.6407) ccw construction
  line L65 (21.1752, 11.4722) -> (21.3306, 11.5564) construction
  arc A102 (21.3306, 11.5564) -> (19.1515, 14.8918) centre (20.092, 13.1268) ccw construction
  line L66 (19.1515, 14.8918) -> (19.0119, 14.7833) construction
  arc A103 (19.0119, 14.7833) -> (19.0865, 14.8556) centre (17.6574, 16.2548) ccw construction
  arc A104 (19.0865, 14.8556) -> (18.9981, 14.8011) centre (20.092, 13.1268) ccw construction
  line L67 (18.9981, 14.8011) -> (19.1375, 14.9097) construction
  arc A105 (19.1375, 14.9097) -> (16.4392, 17.8409) centre (17.6574, 16.2548) ccw construction
  line L68 (16.4392, 17.8409) -> (16.3194, 17.7109) construction
  arc A106 (16.3194, 17.7109) -> (16.381, 17.7946) centre (14.7411, 18.9394) ccw construction
  arc A107 (16.381, 17.7946) -> (16.3028, 17.7262) centre (17.6574, 16.2548) ccw construction
  line L69 (16.3028, 17.7262) -> (16.4225, 17.8563) construction
  arc A108 (16.4225, 17.8563) -> (13.2784, 20.3034) centre (14.7411, 18.9394) ccw construction
  line L70 (13.2784, 20.3034) -> (13.1817, 20.1555) construction
  arc A109 (13.1817, 20.1555) -> (13.2287, 20.2481) centre (11.4227, 21.1074) ccw construction
  arc A110 (13.2287, 20.2481) -> (13.1628, 20.1678) centre (14.7411, 18.9394) ccw construction
  line L71 (13.1628, 20.1678) -> (13.2594, 20.3158) construction
  arc A111 (13.2594, 20.3158) -> (9.7555, 22.212) centre (11.4227, 21.1074) ccw construction
  line L72 (9.7555, 22.212) -> (9.6844, 22.0502) construction
  arc A112 (9.6844, 22.0502) -> (9.7156, 22.1493) centre (7.7928, 22.6996) ccw construction
  arc A113 (9.7156, 22.1493) -> (9.6638, 22.0593) centre (11.4227, 21.1074) ccw construction
  line L73 (9.6638, 22.0593) -> (9.7347, 22.2212) construction
  arc A114 (9.7347, 22.2212) -> (5.9665, 23.5148) centre (7.7928, 22.6996) ccw construction
  line L74 (5.9665, 23.5148) -> (5.923, 23.3435) construction
  arc A115 (5.923, 23.3435) -> (5.9374, 23.4464) centre (3.9503, 23.6727) ccw construction
  arc A116 (5.9374, 23.4464) -> (5.9012, 23.349) centre (7.7928, 22.6996) ccw construction
  line L75 (5.9012, 23.349) -> (5.9445, 23.5204) construction
  circle A117 centre (0, 0) radius 21 construction
  circle A118 centre (0, 0) radius 20 construction
  line L76 (16.8, 24.9006) -> (-16.8, 24.9006) construction
  line L77 (-16.8, 24.9006) -> (-16.8, 21.2406) construction
  line L78 (-16.8, 21.2406) -> (-21.2406, 16.8) construction
  line L79 (-21.2406, 16.8) -> (-24.9006, 16.8) construction
  line L80 (-24.9006, 16.8) -> (-24.9006, -16.8) construction
  line L81 (-24.9006, -16.8) -> (-21.2406, -16.8) construction
  line L82 (-21.2406, -16.8) -> (-16.8, -21.2406) construction
  line L83 (-16.8, -21.2406) -> (-16.8, -24.9006) construction
  line L84 (-16.8, -24.9006) -> (16.8, -24.9006) construction
  line L85 (16.8, -24.9006) -> (16.8, -21.2406) construction
  line L86 (16.8, -21.2406) -> (21.2406, -16.8) construction
  line L87 (21.2406, -16.8) -> (24.9006, -16.8) construction
  line L88 (24.9006, -16.8) -> (24.9006, 16.8) construction
  line L89 (24.9006, 16.8) -> (21.2406, 16.8) construction
  line L90 (21.2406, 16.8) -> (16.8, 21.2406) construction
  line L91 (16.8, 21.2406) -> (16.8, 24.9006) construction
  circle A119 centre (0, 0) radius 26 construction
  line L92 (-16.8, 24.9006) -> (16.8, 24.9006) projected
  line L93 (-9.0669, 24.9006) -> (-16.8, 24.9006)
  line L94 (-16.8, 24.9006) -> (-16.8, 21.2406)
  line L95 (-16.8, 21.2406) -> (-21.2406, 16.8)
  line L96 (-24.9006, 16.8) -> (-21.2406, 16.8) projected
  line L97 (-21.2406, 16.8) -> (-24.9006, 16.8)
  line L98 (-24.9006, 16.8) -> (-24.9006, 9.0669)
  line L99 (-24.9006, 16.8) -> (-24.9006, -16.8) projected
  arc A120 (-9.0669, 24.9006) -> (-24.9006, 9.0669) centre (0, 0) ccw
  circle A121 centre (17.7867, 14.1844) radius 1.25 projected
  circle A122 centre (22.1796, -5.0624) radius 1.25 projected
  circle A123 centre (9.8709, -20.497) radius 1.25 projected
  circle A124 centre (-9.8709, -20.497) radius 1.25 projected
  dimension "d20" = 0.5
extrude "Extrusion3" add sketch "Sketch5" along normal blind 4 contours L92 A120 L98 L96 L95 L94
pattern_circular "Circular Pattern1" count 4 over 360 about axis through (0, 0, -10) along (0, 0, 1) of "Extrusion3"
sketch "Sketch6" plane through (9.0669, 24.9006, 6.5) normal (0, 0, 1) x (1, 0, 0)
  line L0 (15.8337, -8.1006) -> (12.1737, -8.1006) construction
  line L1 (12.1737, -8.1006) -> (7.7331, -3.66) construction
  line L2 (7.7331, -3.66) -> (7.7331, 0) construction
  line L3 (7.7331, 0) -> (0, 0) construction
  arc A0 (15.8337, -15.8337) -> (0, 0) centre (-9.0669, -24.9006) ccw construction
  line L4 (15.8337, -15.8337) -> (15.8337, -8.1006) construction
  line L5 (-33.9675, -41.7006) -> (-30.3075, -41.7006) construction
  line L6 (-30.3075, -41.7006) -> (-25.8669, -46.1413) construction
  line L7 (-25.8669, -46.1413) -> (-25.8669, -49.8013) construction
  line L8 (-25.8669, -49.8013) -> (-18.1338, -49.8013) construction
  arc A1 (-33.9675, -33.9675) -> (-18.1338, -49.8013) centre (-9.0669, -24.9006) ccw construction
  line L9 (-33.9675, -33.9675) -> (-33.9675, -41.7006) construction
  circle A2 centre (-32.1675, -39.9006) radius 1.05
  circle A3 centre (14.0337, -9.9006) radius 1.05
  line L10 (-33.9675, -41.7006) -> (-32.1675, -41.7006) construction
  line L11 (-32.1675, -41.7006) -> (-32.1675, -39.9006) construction
  line L12 (-32.1675, -39.9006) -> (-33.9675, -39.9006) construction
  line L13 (-33.9675, -39.9006) -> (-33.9675, -41.7006) construction
  line L14 (7.7331, 0) -> (6.2331, 0) construction
  line L15 (7.7331, -1.5) -> (7.7331, 0) construction
  line L16 (12.1737, -8.1006) -> (15.8337, -8.1006) projected
  line L17 (14.0337, -8.1006) -> (14.0337, -9.9006) construction
  line L18 (14.0337, -9.9006) -> (15.8337, -9.9006) construction
  line L19 (15.8337, -8.1006) -> (15.8337, -41.7006) projected
  dimension "d26" = 2.1
  dimension "d27" = 2.1
  dimension "d28" = 1.8
  dimension "d29" = 1.8
  dimension "d34" = 1.8
  dimension "d35" = 1.8
extrude "Extrusion4" cut sketch "Sketch6" against normal through all
properties part number "20_Cube_Insert_CirAp_Lid"
